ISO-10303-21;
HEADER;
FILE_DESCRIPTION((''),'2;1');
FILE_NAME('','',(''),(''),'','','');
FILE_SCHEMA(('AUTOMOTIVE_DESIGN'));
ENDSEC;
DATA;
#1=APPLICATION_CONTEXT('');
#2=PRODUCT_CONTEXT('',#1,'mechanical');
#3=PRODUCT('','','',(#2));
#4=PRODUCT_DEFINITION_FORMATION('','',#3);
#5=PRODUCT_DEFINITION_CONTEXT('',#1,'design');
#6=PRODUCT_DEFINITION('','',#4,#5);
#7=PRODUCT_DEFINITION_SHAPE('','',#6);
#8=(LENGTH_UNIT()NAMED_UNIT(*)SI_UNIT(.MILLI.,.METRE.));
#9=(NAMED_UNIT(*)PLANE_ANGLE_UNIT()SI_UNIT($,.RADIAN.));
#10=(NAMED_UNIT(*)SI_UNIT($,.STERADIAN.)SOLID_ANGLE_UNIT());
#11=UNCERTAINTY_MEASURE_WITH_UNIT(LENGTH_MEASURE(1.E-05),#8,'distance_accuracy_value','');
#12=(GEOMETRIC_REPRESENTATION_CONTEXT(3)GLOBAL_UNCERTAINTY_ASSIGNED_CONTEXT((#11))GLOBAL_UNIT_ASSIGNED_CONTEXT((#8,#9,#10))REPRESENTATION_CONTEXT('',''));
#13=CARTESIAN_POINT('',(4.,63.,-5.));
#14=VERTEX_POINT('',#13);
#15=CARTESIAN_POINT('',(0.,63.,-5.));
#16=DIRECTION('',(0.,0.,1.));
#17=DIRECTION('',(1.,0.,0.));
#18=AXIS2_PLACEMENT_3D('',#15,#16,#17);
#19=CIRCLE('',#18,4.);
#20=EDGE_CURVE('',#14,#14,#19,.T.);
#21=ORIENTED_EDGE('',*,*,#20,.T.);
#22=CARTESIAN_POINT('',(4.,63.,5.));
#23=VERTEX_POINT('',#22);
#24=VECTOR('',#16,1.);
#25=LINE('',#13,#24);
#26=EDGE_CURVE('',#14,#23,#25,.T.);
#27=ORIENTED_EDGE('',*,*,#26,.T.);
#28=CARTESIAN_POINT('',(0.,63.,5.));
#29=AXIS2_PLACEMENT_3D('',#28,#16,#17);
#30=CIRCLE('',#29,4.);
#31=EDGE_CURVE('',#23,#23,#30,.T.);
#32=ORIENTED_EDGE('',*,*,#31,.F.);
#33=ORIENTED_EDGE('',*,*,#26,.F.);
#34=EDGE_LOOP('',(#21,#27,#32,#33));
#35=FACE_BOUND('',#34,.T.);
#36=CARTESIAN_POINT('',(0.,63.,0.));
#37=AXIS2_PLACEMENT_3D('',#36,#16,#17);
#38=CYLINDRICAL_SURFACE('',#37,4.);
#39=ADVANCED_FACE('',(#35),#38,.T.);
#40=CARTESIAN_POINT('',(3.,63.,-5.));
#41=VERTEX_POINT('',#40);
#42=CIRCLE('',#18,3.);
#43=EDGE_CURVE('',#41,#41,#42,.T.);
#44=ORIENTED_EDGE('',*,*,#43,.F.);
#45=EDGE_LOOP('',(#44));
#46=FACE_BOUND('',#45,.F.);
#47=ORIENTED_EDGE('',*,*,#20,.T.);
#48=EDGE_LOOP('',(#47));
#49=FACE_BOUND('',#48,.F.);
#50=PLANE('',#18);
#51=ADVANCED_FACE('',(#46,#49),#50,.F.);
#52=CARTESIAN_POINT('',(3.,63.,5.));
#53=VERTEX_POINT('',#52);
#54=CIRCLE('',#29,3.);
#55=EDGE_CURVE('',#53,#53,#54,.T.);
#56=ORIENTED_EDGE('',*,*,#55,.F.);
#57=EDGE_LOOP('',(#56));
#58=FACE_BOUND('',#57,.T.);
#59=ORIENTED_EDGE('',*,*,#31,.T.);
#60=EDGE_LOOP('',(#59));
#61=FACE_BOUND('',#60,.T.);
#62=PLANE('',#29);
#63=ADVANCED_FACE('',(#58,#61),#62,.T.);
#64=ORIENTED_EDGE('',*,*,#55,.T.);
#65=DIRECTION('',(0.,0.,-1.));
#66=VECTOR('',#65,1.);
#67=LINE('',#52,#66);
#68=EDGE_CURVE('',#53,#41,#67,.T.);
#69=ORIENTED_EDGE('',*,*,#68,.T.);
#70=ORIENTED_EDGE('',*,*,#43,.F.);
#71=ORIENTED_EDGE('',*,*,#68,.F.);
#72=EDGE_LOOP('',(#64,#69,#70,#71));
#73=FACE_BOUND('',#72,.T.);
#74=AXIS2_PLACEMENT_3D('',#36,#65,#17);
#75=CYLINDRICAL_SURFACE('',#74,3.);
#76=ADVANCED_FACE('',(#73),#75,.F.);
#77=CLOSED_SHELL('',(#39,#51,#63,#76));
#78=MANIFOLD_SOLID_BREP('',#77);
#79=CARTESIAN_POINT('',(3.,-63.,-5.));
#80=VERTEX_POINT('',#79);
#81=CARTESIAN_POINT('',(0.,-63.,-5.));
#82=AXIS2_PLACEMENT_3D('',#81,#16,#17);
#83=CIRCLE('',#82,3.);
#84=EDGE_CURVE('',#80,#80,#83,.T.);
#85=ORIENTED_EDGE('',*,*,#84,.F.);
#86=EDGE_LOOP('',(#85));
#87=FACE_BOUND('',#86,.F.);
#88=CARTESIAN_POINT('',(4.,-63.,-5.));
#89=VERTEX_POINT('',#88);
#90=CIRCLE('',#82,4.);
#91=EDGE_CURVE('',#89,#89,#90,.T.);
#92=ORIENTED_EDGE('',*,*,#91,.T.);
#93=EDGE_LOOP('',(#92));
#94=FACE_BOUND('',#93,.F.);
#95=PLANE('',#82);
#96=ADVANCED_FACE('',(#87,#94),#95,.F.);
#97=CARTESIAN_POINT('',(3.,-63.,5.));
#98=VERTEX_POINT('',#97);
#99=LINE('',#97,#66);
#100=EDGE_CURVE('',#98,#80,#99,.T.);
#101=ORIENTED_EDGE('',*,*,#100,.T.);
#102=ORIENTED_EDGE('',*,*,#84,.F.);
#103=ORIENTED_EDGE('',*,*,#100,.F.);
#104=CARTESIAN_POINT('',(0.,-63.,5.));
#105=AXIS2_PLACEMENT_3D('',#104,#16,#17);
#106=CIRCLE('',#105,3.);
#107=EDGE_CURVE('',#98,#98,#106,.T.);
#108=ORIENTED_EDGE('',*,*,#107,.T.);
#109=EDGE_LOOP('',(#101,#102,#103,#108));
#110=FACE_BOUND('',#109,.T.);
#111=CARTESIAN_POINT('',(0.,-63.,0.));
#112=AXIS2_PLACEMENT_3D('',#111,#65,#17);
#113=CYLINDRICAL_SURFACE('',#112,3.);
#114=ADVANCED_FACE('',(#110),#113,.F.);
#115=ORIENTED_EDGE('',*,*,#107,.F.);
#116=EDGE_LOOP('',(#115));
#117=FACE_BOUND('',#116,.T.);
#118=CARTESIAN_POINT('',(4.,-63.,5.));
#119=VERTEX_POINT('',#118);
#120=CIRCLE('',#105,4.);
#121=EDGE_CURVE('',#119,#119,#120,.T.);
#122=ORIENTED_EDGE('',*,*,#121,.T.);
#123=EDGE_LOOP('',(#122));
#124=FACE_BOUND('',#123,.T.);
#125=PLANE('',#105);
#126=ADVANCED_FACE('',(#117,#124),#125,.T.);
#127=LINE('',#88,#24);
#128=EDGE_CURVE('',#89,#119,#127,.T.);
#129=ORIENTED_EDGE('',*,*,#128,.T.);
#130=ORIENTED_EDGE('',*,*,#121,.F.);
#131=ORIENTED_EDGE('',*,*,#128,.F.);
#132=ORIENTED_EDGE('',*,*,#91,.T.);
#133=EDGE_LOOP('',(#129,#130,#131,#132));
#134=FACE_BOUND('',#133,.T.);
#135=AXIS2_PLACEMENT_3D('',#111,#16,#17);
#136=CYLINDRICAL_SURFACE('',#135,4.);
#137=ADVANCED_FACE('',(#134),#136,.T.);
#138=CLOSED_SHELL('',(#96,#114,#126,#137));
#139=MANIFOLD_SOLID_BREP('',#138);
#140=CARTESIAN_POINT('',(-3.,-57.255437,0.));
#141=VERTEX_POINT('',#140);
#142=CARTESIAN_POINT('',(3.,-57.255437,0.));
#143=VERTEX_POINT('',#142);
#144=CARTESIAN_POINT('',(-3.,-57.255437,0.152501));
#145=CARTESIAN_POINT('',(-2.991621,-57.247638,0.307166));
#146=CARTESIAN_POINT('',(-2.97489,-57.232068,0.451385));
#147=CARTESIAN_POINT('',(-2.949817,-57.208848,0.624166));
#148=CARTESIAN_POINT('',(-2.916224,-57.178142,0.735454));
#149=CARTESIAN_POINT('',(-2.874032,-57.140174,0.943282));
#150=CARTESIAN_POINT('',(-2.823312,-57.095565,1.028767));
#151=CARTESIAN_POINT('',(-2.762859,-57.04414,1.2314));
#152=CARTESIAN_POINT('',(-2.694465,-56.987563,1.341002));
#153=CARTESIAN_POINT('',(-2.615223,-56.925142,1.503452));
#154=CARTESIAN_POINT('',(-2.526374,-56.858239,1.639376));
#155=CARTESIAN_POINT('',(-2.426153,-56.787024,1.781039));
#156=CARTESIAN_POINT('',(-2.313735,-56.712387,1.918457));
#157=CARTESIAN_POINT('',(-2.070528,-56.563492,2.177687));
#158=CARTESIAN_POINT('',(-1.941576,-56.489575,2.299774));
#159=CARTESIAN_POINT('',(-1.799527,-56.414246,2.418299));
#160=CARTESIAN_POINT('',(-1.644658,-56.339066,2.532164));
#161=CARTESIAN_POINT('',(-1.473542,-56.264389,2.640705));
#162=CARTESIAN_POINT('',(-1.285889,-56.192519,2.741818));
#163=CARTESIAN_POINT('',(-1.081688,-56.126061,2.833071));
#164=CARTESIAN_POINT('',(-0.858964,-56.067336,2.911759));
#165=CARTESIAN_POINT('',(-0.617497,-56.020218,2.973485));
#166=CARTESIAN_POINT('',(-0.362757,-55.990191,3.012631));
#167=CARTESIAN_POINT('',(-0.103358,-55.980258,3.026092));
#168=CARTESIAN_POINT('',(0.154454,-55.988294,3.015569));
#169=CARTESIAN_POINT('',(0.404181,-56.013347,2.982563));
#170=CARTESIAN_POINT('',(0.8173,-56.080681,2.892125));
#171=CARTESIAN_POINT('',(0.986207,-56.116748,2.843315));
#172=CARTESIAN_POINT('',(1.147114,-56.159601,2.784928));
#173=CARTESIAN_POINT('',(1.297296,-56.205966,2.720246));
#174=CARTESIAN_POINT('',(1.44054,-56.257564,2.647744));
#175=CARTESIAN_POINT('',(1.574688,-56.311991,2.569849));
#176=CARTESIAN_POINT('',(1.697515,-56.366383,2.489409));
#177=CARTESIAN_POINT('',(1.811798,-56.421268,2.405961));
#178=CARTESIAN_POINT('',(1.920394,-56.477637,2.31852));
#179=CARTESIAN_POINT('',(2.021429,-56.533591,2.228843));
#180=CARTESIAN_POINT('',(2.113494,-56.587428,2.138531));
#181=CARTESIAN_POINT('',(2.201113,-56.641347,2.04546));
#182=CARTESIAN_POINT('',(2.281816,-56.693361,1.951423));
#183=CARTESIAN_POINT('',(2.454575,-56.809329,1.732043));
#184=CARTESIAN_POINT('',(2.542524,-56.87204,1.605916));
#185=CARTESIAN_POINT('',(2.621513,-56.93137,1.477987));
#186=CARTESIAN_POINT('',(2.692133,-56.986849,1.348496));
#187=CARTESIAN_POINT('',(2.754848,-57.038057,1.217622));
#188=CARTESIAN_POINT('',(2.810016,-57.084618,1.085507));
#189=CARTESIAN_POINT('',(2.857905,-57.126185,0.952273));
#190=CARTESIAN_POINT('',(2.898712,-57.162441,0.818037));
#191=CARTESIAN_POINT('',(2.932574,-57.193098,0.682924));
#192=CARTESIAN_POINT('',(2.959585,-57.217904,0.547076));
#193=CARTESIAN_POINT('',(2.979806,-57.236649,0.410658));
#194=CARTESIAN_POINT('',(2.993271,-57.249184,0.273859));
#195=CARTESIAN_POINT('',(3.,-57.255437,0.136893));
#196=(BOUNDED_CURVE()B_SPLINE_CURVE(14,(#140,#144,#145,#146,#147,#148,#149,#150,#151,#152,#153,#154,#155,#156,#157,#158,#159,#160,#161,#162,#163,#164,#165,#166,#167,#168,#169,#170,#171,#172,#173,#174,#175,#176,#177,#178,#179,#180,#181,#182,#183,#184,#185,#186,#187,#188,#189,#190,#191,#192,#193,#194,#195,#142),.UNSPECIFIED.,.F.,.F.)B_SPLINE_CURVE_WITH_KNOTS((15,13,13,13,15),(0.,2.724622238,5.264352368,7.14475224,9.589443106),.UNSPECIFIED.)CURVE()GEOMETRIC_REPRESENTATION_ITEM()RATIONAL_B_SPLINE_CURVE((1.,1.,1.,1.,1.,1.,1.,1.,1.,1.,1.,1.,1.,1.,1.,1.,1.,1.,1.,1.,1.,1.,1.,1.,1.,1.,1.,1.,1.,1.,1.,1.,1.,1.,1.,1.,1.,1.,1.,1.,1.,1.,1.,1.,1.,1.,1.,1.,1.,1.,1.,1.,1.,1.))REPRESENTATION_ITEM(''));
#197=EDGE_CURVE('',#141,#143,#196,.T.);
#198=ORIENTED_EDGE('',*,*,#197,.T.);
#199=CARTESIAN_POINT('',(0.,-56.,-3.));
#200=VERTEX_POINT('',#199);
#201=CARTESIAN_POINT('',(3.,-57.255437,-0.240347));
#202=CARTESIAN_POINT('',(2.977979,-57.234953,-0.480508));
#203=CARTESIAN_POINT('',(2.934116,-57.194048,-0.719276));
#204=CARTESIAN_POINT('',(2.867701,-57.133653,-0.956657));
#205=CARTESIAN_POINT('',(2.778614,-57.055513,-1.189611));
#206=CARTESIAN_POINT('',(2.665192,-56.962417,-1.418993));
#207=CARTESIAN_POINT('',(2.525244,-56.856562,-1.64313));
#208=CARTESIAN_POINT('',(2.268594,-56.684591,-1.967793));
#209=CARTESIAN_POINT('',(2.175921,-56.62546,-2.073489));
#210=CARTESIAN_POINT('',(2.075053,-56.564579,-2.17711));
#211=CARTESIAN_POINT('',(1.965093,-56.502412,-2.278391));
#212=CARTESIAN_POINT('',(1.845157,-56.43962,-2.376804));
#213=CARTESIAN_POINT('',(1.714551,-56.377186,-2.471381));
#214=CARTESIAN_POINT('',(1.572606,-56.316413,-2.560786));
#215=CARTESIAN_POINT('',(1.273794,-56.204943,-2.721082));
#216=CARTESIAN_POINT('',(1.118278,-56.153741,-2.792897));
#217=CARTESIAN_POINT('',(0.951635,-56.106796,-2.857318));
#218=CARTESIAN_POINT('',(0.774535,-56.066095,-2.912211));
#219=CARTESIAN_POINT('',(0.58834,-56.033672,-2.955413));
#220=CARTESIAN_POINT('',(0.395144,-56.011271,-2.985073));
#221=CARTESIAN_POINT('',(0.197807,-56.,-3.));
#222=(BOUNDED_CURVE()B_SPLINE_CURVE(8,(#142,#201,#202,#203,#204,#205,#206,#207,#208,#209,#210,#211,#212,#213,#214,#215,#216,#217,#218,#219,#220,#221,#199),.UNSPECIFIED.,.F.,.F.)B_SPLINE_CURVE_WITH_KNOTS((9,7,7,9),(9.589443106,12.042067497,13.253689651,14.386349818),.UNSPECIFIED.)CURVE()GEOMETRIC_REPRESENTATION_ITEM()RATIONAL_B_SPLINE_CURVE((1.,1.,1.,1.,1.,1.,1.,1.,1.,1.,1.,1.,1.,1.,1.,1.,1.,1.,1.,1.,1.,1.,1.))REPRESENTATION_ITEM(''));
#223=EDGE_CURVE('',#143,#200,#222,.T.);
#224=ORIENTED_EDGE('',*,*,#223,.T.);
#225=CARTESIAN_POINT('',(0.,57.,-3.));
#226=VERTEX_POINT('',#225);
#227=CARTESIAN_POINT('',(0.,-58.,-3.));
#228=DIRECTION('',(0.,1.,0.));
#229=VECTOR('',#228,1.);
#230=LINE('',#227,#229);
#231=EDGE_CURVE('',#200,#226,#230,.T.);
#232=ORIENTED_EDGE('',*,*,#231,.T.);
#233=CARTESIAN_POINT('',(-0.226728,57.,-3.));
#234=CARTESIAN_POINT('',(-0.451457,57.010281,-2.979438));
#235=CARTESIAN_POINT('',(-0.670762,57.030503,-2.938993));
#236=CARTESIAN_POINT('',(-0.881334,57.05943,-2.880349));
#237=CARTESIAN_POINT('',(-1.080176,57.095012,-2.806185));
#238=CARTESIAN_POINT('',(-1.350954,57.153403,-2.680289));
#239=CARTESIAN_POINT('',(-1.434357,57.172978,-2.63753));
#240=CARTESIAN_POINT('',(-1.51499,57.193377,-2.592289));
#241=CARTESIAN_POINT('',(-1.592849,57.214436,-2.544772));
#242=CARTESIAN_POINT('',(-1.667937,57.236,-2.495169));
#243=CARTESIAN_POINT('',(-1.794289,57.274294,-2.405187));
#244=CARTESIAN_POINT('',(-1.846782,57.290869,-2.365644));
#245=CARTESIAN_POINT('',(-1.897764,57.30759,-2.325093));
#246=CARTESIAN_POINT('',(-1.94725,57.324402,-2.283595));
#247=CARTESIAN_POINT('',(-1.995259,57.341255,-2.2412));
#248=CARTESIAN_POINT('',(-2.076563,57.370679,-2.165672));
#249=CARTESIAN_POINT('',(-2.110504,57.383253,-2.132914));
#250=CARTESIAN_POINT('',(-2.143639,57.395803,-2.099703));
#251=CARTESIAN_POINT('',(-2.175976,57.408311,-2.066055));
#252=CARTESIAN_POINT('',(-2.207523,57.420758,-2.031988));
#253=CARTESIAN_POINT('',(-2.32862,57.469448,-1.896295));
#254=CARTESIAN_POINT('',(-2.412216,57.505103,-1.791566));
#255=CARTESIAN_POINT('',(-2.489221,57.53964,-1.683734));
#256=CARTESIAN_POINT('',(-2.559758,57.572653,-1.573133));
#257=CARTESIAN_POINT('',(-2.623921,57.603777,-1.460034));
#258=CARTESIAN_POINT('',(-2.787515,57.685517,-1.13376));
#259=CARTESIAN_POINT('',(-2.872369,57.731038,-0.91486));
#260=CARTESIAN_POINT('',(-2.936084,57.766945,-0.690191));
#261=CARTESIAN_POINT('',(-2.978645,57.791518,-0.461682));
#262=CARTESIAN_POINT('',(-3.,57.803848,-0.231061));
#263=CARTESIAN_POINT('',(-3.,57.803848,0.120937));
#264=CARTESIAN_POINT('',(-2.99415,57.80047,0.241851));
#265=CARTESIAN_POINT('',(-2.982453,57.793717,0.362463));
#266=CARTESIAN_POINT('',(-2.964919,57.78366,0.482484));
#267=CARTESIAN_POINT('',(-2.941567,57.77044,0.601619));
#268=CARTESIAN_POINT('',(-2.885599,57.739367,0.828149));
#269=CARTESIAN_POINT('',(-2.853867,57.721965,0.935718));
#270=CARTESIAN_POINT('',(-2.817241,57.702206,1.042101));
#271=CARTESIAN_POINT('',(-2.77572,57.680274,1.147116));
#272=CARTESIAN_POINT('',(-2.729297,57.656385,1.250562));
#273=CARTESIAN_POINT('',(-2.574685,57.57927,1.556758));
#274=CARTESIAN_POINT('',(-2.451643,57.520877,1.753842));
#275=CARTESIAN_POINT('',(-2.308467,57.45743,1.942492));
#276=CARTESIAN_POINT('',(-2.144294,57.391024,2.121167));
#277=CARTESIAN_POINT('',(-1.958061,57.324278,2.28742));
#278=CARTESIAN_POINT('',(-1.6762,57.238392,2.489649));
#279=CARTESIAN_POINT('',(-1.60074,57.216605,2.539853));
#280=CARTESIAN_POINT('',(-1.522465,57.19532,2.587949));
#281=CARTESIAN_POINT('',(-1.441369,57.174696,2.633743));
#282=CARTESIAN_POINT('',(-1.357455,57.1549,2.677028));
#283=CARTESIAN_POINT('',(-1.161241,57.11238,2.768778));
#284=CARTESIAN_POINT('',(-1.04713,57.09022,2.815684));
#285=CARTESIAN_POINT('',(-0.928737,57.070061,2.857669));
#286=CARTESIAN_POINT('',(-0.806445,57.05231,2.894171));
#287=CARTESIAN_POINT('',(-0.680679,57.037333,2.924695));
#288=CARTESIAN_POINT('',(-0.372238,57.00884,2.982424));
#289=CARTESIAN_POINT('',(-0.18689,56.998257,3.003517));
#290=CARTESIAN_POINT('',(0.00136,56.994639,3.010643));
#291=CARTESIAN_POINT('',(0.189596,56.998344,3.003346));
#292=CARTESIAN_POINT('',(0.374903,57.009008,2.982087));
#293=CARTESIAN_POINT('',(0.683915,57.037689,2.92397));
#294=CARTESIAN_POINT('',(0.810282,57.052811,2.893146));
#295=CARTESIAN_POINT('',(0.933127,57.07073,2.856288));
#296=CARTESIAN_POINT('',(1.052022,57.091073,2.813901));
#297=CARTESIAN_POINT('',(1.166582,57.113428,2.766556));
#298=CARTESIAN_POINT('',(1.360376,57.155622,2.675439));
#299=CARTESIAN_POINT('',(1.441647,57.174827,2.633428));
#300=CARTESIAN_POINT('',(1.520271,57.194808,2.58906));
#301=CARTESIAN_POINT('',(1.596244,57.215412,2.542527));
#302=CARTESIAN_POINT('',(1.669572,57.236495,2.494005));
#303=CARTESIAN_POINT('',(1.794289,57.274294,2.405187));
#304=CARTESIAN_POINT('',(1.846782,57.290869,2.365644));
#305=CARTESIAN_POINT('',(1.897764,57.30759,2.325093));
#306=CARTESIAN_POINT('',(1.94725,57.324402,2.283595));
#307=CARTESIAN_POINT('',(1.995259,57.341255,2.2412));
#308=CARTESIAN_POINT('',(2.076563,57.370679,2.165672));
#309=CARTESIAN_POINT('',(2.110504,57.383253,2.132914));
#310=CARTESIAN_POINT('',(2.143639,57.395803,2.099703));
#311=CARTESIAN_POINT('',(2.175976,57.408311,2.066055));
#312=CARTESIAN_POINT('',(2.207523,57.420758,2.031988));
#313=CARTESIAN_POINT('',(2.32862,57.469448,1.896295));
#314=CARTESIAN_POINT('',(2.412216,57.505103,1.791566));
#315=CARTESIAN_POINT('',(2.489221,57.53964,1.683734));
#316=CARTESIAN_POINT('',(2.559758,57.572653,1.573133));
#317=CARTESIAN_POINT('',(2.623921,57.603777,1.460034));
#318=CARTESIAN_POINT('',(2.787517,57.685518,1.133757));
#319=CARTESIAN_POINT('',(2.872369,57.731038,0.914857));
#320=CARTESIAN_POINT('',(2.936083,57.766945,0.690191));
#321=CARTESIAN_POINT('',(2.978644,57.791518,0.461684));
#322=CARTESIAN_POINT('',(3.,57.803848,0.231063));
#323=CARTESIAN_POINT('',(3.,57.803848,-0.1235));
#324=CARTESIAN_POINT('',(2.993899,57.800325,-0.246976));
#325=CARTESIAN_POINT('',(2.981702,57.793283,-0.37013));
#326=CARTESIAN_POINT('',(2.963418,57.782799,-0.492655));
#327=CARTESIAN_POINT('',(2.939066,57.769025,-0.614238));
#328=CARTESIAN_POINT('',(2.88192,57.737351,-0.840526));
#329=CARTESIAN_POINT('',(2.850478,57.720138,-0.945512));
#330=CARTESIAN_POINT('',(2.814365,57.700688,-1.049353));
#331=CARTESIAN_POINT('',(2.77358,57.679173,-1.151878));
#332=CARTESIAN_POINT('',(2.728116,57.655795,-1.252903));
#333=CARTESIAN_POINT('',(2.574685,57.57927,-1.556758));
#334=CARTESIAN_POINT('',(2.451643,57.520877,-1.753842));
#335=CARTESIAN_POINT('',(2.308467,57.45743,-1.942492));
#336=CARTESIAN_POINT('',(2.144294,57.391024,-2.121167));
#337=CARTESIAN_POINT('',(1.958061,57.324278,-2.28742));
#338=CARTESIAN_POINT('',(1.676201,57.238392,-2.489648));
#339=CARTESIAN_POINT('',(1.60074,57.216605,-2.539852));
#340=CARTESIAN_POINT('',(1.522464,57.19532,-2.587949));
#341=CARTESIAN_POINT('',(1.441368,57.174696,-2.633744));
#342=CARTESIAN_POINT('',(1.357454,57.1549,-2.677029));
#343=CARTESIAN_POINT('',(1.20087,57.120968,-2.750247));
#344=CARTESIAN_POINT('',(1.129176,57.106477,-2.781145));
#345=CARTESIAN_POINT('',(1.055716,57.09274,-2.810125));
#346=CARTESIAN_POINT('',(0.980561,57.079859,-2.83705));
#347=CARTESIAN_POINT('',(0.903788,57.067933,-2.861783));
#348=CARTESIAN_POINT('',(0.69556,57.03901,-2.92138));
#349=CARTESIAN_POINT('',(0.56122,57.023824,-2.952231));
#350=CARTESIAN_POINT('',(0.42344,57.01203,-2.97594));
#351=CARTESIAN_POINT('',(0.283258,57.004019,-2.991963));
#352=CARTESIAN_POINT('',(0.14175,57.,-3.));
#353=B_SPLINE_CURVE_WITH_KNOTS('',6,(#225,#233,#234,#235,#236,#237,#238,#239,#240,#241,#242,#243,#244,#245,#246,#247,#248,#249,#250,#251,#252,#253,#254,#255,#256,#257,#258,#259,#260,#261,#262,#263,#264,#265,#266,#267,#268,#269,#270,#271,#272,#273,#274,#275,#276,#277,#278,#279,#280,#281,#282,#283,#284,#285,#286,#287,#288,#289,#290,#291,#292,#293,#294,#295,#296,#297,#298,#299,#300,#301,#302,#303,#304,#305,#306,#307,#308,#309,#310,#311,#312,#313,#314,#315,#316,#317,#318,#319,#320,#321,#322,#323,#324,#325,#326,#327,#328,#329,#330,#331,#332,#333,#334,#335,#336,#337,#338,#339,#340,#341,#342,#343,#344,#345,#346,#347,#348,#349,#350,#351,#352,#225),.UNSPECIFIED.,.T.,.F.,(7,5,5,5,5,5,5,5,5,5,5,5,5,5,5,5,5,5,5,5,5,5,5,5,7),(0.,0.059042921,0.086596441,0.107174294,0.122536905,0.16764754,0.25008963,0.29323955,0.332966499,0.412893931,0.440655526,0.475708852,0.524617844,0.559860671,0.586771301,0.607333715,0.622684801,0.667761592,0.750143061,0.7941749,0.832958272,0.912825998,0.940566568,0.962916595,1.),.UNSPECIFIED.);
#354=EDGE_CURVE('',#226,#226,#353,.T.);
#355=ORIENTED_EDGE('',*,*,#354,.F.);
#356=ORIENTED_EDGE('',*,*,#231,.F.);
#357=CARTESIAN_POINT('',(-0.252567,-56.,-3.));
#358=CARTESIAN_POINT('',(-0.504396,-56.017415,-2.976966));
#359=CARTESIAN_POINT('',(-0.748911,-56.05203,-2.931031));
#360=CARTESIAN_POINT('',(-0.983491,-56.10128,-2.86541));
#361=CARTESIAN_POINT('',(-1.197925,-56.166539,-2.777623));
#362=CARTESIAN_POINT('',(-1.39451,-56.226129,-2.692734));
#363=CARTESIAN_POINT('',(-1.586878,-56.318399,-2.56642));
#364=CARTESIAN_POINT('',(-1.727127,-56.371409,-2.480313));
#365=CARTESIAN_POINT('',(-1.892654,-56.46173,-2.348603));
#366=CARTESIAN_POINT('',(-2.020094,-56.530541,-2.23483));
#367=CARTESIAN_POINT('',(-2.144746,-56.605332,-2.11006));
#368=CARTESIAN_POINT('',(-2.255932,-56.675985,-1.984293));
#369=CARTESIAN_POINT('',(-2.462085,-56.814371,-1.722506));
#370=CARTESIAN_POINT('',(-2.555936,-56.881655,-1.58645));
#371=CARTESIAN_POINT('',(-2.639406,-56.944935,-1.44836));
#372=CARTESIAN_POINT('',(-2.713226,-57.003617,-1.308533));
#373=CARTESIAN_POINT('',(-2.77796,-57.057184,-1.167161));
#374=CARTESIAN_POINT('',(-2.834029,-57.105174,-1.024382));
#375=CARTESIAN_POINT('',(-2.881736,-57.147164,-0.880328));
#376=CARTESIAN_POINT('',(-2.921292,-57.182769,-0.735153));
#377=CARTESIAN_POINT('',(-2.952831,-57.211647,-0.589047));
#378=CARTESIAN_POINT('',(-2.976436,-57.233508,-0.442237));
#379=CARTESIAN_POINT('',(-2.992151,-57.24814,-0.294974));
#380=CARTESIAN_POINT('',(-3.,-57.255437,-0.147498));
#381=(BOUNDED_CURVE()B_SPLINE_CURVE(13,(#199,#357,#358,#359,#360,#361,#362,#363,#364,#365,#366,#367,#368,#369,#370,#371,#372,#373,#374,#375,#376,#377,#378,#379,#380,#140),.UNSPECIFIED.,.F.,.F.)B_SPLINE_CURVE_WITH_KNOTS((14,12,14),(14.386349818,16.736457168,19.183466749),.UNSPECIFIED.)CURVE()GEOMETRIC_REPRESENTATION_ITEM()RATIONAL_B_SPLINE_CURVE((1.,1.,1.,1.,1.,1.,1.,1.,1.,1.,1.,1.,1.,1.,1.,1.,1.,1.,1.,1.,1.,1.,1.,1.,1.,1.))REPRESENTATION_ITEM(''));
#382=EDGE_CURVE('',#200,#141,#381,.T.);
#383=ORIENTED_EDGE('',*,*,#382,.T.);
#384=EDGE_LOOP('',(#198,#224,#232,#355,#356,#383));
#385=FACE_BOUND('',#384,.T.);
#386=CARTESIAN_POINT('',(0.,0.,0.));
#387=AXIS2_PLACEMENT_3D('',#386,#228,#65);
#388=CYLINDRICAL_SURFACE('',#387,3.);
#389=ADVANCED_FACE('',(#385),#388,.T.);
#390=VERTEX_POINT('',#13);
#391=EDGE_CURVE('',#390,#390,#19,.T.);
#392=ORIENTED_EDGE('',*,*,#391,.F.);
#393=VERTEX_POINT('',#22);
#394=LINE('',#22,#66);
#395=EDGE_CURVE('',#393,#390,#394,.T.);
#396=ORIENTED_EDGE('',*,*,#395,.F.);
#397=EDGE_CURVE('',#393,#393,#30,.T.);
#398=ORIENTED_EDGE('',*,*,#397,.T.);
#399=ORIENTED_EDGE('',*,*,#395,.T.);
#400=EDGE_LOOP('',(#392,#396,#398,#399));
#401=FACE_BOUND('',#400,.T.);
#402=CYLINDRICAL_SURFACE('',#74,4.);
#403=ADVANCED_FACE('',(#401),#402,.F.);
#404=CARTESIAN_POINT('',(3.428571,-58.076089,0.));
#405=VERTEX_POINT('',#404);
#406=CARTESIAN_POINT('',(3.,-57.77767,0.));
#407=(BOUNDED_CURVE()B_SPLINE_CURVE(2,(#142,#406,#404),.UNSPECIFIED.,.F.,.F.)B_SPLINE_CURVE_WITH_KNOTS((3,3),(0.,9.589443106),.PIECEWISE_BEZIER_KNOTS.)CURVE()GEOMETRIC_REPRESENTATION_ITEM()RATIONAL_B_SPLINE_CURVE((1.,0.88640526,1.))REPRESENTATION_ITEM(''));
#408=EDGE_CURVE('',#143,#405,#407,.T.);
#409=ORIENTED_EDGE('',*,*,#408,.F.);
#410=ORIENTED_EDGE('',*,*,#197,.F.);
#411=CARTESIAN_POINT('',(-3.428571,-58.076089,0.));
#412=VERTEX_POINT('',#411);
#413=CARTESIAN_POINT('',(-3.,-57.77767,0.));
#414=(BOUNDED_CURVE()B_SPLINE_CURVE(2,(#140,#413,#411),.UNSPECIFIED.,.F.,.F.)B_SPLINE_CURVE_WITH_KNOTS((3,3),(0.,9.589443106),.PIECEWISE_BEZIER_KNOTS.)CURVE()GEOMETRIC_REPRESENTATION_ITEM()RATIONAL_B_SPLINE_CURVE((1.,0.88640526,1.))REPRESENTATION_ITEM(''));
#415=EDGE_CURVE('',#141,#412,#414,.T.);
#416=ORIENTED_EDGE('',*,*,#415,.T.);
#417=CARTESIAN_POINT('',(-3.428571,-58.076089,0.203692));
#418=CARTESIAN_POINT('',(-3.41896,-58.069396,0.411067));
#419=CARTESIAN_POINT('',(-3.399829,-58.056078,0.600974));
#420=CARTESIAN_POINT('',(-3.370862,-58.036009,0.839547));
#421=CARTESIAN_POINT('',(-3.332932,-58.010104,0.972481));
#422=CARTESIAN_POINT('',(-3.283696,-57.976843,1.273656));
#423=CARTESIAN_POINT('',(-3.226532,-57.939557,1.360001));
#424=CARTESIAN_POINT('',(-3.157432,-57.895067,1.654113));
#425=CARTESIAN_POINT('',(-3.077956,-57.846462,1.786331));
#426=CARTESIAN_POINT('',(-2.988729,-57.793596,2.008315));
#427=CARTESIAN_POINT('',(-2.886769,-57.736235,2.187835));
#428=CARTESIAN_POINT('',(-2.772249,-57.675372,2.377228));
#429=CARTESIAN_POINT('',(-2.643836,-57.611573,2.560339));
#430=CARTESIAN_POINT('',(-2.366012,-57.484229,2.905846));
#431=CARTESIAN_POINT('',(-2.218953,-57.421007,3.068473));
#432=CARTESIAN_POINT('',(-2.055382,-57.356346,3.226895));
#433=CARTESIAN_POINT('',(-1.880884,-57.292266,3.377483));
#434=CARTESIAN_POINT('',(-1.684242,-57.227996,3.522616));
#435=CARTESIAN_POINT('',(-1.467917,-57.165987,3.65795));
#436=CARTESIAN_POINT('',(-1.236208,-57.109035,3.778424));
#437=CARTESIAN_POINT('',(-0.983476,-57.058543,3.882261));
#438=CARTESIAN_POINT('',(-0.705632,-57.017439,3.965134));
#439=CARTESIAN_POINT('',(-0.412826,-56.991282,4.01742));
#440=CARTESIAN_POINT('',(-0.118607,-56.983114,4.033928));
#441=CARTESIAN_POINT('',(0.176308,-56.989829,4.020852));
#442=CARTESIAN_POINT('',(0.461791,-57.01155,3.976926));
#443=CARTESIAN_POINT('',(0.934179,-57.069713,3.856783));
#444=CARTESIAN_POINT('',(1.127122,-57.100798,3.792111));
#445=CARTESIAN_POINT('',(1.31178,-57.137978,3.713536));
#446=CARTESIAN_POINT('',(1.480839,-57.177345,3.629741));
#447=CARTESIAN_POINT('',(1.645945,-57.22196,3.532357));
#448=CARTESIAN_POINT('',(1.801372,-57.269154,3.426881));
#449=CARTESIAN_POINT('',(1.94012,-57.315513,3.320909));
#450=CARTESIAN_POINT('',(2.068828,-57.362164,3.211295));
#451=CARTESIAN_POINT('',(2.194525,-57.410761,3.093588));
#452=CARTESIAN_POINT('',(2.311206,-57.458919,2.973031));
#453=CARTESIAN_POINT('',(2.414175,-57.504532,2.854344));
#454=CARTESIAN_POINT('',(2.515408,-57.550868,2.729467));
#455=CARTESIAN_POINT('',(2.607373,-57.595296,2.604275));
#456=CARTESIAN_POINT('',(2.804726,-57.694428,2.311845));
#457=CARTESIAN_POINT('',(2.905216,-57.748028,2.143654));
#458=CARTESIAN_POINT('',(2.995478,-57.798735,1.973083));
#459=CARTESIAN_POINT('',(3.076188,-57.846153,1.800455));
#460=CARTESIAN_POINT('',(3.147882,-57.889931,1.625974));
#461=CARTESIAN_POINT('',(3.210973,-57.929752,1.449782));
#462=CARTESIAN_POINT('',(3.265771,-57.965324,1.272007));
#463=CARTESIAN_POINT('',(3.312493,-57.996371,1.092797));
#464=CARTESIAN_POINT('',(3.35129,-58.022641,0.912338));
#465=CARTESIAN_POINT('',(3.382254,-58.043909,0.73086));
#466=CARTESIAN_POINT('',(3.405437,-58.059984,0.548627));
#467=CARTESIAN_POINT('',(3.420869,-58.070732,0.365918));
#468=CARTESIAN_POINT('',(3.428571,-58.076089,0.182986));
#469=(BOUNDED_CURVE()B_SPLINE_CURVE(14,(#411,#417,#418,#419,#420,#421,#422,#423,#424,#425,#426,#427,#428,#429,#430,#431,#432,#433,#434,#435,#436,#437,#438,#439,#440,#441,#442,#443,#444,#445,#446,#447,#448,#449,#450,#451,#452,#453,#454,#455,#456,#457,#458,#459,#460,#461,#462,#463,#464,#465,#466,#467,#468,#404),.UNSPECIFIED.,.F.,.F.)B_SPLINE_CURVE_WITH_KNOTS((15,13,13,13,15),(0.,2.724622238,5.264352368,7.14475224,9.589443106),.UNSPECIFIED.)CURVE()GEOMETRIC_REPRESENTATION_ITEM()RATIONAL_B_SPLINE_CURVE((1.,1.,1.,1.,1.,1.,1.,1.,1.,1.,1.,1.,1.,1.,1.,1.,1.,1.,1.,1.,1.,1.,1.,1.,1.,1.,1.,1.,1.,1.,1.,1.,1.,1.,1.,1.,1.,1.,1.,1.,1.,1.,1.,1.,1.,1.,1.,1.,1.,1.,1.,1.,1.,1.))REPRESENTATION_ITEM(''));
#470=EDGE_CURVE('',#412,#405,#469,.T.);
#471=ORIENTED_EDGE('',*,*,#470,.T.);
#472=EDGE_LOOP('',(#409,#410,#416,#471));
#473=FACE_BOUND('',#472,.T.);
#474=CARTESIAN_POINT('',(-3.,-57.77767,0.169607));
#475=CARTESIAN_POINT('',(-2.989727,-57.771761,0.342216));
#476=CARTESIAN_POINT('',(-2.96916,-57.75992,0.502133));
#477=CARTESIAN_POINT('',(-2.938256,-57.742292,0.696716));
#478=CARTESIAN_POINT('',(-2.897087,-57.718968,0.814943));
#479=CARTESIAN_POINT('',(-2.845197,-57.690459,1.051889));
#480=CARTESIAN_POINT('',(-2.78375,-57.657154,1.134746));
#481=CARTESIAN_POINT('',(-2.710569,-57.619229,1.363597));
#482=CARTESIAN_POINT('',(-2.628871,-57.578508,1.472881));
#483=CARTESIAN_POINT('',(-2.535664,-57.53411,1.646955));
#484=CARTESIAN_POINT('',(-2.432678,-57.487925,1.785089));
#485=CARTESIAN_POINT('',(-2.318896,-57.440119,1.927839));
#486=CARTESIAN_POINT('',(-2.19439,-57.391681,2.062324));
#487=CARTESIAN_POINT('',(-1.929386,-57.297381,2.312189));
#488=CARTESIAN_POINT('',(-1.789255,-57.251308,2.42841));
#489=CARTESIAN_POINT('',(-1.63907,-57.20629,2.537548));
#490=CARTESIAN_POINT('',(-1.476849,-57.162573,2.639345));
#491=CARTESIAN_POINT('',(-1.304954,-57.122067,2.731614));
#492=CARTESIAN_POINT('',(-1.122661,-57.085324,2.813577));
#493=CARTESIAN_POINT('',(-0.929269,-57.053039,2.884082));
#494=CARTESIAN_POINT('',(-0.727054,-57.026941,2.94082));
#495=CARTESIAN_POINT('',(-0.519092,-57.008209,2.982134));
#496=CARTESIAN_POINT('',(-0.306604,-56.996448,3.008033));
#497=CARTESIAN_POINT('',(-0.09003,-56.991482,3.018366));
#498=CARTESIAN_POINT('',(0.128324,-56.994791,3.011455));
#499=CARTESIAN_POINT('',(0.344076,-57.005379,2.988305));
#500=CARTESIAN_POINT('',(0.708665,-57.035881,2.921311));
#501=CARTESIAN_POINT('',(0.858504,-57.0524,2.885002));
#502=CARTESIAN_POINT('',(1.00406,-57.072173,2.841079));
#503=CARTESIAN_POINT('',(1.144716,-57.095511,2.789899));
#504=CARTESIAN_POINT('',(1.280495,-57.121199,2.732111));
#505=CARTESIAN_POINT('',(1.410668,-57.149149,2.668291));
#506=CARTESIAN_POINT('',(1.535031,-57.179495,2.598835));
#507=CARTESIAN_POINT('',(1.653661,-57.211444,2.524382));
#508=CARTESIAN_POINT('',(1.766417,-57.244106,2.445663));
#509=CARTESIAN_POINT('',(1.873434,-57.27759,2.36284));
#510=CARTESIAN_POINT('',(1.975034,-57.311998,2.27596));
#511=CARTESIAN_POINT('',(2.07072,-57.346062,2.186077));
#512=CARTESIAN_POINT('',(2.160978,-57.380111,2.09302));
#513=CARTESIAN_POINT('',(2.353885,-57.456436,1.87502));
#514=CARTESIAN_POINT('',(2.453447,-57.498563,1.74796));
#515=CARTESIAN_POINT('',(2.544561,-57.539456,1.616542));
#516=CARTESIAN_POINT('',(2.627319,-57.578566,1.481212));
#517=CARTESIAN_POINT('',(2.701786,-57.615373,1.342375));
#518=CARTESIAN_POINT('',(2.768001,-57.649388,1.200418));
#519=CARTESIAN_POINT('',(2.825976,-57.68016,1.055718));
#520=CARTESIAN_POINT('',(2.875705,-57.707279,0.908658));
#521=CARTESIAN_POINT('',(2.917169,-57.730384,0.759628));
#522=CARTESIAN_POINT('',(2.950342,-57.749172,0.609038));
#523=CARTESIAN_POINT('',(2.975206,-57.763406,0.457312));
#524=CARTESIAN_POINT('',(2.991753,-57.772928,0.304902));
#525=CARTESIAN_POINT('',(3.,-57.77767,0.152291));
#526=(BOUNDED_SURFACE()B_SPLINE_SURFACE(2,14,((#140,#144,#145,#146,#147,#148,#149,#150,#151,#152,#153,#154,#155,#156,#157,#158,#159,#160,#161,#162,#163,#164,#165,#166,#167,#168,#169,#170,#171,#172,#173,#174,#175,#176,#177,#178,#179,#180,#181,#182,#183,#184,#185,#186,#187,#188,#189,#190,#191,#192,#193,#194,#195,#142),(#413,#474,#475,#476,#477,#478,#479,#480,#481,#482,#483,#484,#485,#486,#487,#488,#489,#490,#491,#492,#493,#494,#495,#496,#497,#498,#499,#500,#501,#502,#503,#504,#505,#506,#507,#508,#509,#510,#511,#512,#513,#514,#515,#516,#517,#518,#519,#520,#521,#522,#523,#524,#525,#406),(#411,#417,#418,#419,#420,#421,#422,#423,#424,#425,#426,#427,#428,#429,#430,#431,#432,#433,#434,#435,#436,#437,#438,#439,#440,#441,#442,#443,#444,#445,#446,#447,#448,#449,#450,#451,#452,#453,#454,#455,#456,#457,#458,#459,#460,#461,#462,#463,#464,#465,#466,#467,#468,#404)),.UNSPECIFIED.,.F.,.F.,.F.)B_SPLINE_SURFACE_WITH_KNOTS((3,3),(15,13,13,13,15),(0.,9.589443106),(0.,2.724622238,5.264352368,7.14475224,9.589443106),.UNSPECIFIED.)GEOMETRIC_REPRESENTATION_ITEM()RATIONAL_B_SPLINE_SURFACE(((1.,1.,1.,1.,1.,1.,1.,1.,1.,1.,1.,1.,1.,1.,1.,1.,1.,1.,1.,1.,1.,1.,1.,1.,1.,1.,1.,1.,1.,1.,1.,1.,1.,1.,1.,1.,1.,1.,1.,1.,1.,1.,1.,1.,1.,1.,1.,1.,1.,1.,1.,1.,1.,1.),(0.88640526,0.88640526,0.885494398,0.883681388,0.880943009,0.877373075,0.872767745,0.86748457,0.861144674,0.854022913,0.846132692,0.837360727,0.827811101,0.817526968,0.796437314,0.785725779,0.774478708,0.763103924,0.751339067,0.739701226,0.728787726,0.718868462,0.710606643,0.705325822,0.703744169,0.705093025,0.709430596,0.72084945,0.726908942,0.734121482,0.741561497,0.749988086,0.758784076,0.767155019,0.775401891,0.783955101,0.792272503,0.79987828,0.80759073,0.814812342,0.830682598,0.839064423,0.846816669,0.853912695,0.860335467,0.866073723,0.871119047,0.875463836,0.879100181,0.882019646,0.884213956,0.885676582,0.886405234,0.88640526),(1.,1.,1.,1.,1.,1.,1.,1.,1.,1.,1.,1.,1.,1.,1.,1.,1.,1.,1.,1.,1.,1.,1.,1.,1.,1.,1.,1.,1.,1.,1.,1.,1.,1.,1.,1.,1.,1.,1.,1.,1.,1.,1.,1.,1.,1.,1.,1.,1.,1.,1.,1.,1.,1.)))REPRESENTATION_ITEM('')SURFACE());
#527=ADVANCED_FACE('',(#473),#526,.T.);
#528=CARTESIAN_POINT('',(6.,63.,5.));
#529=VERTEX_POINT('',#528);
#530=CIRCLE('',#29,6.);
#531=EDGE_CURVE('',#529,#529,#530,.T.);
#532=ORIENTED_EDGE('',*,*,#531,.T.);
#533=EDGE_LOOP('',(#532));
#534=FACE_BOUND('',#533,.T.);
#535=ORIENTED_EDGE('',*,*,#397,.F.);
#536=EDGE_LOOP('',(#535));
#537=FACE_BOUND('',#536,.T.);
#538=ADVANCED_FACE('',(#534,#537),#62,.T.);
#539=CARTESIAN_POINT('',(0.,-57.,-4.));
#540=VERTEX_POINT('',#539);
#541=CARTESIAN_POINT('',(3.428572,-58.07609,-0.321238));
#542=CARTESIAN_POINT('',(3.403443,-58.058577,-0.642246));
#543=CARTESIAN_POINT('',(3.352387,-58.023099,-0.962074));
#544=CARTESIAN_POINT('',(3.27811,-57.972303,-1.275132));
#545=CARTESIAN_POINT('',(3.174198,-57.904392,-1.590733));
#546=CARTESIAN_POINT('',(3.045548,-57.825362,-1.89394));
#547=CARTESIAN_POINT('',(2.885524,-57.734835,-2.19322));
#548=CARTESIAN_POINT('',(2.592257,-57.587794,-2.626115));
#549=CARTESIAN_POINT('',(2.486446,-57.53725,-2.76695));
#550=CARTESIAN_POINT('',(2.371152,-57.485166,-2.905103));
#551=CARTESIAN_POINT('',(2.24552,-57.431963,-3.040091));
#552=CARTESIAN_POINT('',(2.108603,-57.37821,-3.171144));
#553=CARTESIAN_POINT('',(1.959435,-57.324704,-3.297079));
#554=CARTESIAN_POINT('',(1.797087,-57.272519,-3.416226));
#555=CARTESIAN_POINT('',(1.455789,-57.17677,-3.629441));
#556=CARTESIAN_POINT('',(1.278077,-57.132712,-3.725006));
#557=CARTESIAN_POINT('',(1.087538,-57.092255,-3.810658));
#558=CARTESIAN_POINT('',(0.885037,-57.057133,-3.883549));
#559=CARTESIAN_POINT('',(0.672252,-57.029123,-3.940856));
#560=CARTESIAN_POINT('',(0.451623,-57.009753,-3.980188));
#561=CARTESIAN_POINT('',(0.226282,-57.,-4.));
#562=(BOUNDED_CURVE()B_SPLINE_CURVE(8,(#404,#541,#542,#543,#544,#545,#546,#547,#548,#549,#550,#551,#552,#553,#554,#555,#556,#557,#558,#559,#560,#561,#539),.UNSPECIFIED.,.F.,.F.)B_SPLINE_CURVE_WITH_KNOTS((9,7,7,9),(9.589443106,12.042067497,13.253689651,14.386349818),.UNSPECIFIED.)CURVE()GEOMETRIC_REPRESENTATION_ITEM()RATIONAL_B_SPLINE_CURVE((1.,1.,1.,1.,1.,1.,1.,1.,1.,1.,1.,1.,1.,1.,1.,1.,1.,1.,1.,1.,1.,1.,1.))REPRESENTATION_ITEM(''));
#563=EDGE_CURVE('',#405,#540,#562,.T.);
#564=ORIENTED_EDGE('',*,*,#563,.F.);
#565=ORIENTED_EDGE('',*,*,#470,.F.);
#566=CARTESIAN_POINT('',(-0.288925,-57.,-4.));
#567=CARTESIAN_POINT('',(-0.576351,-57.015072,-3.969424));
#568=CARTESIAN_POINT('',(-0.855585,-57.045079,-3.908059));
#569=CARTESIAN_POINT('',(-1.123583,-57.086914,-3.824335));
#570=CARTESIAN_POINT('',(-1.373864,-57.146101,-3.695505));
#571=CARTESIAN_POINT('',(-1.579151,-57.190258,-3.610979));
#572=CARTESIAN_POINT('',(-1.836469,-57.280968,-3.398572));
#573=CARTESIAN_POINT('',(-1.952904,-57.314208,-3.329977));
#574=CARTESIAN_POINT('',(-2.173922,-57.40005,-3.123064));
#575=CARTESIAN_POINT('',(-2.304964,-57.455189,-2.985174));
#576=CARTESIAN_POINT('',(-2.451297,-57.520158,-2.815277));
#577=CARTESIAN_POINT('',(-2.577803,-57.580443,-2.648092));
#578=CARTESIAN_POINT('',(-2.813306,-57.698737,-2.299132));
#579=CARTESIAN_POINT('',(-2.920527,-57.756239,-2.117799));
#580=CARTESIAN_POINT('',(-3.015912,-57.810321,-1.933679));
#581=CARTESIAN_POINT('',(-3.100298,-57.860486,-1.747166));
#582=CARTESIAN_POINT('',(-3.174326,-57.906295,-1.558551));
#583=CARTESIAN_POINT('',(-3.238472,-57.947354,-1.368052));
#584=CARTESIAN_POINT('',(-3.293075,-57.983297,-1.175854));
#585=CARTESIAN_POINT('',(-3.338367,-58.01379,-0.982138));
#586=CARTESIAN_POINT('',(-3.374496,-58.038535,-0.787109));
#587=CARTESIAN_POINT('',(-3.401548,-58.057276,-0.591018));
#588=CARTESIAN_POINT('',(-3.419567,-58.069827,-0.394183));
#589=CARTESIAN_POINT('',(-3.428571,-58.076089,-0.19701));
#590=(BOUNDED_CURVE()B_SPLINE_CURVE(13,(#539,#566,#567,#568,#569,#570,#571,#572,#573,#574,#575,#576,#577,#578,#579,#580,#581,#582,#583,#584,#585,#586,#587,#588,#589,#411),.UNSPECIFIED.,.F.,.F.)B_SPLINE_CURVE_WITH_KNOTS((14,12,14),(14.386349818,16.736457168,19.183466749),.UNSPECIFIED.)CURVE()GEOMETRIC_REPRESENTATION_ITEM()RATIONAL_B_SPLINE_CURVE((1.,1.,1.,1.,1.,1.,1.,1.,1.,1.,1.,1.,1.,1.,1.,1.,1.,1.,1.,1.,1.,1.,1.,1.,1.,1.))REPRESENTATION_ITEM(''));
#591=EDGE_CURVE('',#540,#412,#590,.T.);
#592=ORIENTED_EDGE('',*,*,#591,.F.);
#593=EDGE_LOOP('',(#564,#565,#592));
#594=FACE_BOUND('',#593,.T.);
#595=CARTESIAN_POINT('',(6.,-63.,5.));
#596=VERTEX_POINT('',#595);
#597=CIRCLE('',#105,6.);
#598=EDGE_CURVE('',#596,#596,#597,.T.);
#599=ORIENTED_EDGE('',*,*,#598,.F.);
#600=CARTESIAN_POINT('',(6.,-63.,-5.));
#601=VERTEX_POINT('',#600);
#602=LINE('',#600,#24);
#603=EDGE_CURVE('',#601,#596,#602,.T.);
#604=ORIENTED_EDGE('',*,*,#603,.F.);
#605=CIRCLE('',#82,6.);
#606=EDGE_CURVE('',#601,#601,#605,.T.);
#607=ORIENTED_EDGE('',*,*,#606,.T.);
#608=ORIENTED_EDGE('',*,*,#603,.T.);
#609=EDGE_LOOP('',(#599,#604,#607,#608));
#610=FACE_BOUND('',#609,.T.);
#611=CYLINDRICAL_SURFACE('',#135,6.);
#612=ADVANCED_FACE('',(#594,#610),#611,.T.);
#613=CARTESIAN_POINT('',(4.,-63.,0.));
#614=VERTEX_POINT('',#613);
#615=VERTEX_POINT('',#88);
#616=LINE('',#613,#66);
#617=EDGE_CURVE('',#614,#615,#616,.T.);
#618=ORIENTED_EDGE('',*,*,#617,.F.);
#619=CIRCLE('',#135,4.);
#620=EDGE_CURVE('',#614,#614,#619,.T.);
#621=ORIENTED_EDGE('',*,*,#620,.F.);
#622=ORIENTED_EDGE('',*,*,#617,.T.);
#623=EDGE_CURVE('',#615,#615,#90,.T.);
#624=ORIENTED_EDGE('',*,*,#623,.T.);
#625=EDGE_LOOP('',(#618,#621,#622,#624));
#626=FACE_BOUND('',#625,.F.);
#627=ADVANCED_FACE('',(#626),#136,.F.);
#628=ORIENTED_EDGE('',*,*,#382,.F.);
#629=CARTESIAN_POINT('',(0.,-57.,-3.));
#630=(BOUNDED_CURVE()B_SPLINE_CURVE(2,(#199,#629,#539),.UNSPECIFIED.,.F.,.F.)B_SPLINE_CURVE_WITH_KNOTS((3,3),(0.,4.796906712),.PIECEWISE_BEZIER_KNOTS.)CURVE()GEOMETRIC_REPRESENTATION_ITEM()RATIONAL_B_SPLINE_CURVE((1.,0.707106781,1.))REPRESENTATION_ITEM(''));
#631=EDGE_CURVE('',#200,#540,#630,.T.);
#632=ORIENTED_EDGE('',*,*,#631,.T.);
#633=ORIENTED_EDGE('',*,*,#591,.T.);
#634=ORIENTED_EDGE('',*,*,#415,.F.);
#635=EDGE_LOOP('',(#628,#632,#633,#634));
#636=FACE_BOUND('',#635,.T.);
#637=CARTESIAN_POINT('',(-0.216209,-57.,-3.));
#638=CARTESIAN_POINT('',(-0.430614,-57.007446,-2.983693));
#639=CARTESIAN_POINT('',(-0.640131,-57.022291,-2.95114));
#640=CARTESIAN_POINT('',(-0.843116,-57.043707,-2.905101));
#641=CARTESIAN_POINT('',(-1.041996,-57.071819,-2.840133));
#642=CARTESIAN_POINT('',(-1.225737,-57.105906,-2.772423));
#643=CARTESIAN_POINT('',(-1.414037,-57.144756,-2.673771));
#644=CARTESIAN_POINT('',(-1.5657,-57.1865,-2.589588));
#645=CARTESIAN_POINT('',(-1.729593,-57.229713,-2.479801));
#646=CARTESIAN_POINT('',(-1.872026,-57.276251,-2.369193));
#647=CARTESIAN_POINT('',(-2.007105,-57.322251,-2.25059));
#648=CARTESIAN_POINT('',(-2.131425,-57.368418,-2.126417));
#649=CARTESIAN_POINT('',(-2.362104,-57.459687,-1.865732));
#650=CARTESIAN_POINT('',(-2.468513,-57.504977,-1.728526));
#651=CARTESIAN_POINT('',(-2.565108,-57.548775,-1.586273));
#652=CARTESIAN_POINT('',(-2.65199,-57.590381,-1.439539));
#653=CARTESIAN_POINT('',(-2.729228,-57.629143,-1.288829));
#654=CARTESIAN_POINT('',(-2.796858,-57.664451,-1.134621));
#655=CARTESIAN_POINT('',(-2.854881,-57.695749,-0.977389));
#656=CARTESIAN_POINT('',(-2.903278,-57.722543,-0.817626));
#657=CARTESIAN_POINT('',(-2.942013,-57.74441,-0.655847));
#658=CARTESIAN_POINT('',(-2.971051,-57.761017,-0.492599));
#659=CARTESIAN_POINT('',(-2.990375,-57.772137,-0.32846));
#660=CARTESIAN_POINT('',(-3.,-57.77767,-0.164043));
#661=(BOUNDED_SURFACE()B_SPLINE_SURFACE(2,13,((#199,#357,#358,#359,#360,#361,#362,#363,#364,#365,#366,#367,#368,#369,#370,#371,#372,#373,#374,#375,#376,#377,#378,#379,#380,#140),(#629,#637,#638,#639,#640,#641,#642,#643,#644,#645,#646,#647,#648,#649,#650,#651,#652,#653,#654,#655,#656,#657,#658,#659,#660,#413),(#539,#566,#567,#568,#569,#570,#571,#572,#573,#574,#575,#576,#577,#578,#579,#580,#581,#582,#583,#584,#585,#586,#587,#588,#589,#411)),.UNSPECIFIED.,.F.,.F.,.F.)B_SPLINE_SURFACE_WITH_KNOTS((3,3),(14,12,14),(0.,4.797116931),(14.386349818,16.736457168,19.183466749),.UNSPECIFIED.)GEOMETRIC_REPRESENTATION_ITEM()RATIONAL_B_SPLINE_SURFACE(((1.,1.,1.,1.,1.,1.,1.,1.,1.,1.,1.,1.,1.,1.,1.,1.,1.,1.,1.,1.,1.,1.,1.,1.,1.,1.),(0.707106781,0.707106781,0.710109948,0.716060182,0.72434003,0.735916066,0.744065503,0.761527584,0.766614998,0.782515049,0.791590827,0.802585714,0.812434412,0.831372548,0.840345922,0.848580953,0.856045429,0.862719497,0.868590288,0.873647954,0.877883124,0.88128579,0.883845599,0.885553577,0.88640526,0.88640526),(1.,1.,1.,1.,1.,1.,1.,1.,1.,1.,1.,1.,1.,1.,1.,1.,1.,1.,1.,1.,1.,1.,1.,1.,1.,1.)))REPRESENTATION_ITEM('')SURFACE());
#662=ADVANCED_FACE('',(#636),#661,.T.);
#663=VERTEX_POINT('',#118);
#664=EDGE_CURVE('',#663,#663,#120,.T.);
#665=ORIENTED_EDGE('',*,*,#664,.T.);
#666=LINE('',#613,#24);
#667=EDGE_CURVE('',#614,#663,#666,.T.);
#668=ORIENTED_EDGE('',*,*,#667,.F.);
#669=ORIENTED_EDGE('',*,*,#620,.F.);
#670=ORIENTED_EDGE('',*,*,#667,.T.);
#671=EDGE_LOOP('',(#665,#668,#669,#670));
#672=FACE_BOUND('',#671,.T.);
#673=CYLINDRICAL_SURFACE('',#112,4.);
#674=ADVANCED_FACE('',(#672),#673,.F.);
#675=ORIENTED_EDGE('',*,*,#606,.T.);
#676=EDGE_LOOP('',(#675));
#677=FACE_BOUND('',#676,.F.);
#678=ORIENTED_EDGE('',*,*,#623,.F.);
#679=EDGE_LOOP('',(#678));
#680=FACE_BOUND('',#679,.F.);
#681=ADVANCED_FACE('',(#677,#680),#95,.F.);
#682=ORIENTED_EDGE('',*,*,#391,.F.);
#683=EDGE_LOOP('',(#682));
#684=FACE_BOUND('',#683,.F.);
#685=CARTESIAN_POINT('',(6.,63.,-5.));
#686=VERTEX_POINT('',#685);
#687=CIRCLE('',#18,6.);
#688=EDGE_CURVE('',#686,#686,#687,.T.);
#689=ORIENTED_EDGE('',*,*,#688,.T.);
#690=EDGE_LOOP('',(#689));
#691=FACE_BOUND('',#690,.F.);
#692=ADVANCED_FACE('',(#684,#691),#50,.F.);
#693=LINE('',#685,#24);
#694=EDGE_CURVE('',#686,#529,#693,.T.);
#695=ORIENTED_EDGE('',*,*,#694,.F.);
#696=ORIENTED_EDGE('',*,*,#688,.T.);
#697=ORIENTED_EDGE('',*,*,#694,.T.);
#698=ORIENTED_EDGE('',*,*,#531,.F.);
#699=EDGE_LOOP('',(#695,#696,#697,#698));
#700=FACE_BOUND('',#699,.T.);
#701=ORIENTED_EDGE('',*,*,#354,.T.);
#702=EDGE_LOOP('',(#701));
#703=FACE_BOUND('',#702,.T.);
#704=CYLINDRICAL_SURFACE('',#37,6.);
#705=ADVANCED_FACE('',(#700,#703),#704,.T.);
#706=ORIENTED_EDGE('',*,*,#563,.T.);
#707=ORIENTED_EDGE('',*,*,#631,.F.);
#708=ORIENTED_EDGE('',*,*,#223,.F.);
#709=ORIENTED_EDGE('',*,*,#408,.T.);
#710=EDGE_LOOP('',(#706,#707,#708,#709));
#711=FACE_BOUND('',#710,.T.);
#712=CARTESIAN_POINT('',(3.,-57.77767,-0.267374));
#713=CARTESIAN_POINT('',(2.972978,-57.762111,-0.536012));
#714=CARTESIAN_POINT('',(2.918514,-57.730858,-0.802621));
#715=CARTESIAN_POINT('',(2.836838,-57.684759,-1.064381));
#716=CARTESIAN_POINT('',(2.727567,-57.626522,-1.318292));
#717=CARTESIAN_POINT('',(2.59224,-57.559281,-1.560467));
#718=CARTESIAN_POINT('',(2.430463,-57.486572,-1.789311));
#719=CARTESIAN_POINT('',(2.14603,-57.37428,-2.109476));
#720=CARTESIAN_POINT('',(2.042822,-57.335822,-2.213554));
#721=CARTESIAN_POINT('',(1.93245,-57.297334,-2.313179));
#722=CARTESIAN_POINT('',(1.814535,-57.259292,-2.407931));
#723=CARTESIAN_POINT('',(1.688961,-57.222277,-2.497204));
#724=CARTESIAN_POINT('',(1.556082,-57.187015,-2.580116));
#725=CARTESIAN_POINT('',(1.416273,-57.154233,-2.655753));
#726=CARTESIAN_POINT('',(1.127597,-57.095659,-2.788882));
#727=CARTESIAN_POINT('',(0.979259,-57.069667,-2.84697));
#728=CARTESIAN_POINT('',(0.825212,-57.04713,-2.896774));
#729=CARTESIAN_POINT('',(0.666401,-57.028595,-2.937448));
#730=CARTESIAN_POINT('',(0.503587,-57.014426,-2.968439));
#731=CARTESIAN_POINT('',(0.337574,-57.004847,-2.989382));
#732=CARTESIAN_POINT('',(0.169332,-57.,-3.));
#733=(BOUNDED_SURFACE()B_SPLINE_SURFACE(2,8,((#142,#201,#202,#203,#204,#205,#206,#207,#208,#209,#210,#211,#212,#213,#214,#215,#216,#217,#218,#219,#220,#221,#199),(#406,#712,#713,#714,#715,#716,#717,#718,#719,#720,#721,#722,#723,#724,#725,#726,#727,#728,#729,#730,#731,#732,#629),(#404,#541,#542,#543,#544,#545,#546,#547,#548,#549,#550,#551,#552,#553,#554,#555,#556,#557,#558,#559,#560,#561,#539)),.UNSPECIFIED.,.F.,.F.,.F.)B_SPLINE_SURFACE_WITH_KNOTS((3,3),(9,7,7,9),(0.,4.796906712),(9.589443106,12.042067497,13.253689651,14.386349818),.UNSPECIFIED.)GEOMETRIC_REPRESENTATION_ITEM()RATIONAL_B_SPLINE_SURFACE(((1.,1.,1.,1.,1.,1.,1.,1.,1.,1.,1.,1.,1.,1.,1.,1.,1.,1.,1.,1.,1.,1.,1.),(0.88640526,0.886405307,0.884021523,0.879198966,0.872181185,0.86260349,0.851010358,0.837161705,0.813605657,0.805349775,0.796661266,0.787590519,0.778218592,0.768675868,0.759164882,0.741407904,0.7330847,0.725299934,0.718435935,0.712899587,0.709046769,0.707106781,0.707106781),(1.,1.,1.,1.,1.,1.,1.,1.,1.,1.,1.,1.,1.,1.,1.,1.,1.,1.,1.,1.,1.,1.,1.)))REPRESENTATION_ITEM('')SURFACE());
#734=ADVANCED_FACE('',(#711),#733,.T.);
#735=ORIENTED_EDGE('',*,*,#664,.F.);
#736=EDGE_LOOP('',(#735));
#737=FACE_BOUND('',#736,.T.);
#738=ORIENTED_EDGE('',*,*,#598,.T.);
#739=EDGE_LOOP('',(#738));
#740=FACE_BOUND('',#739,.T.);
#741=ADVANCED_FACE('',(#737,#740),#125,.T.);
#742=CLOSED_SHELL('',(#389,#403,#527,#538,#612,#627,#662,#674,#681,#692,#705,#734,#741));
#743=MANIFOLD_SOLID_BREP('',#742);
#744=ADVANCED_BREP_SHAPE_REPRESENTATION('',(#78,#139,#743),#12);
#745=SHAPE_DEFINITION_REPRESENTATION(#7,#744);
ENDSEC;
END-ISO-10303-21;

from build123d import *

# Parameters (mm, degrees)
SKETCH1_R             = 3
BOSS_EXTRUDE1_DEPTH   = 58
SKETCH2_R             = 6
SKETCH2_R_2           = 4
BOSS_EXTRUDE2_DEPTH   = 5
SKETCH3_R             = 4
SKETCH3_R_2           = 3
BOSS_EXTRUDE3_DEPTH   = 5
BOSS_EXTRUDE3_2_DEPTH = 5
FILLET1_R             = 1


with BuildPart() as part:
    # Sketch1 → Boss-Extrude1 (new, symmetric)
    with BuildSketch(Plane(origin=(0, 0, 0), x_dir=(1, 0, 0), z_dir=(0, 1, 0))):
        with Locations(Location((0, 0, 0), (0, 0, 90))):
            Circle(SKETCH1_R)
    extrude(amount=BOSS_EXTRUDE1_DEPTH, both=True)

    # Sketch2 → Boss-Extrude2 (add, symmetric)
    # profile 1 of 2: a face of its own
    with BuildSketch(Plane.XY):
        with Locations((0, -63)):
            Circle(SKETCH2_R)
        with Locations((0, -63)):
            Circle(SKETCH2_R_2, mode=Mode.SUBTRACT)
    # profile 2 of 2: a face of its own
    with BuildSketch(Plane.XY):
        with Locations((0, 63)):
            Circle(SKETCH2_R)
        with Locations((0, 63)):
            Circle(SKETCH2_R_2, mode=Mode.SUBTRACT)
    extrude(amount=BOSS_EXTRUDE2_DEPTH, both=True)

    # Fillet1
    fillet1_edges = [part.edges().sort_by_distance(p)[0] for p in [
        (0, -57, 3.000000001),
    ]]
    fillet(fillet1_edges, radius=FILLET1_R)


with BuildPart() as body_2:
    # Sketch3 → Boss-Extrude3 (new, symmetric)
    with BuildSketch(Plane.XY):
        with Locations((0, -63)):
            Circle(SKETCH3_R)
        with Locations((0, -63)):
            Circle(SKETCH3_R_2, mode=Mode.SUBTRACT)
    extrude(amount=BOSS_EXTRUDE3_DEPTH, both=True)


with BuildPart() as body_3:
    # Sketch3 → Boss-Extrude3 2 (new, symmetric)
    with BuildSketch(Plane.XY):
        with Locations((0, 63)):
            Circle(SKETCH3_R)
        with Locations((0, 63)):
            Circle(SKETCH3_R_2, mode=Mode.SUBTRACT)
    extrude(amount=BOSS_EXTRUDE3_2_DEPTH, both=True)


solid = Compound([part.part, body_2.part, body_3.part])
